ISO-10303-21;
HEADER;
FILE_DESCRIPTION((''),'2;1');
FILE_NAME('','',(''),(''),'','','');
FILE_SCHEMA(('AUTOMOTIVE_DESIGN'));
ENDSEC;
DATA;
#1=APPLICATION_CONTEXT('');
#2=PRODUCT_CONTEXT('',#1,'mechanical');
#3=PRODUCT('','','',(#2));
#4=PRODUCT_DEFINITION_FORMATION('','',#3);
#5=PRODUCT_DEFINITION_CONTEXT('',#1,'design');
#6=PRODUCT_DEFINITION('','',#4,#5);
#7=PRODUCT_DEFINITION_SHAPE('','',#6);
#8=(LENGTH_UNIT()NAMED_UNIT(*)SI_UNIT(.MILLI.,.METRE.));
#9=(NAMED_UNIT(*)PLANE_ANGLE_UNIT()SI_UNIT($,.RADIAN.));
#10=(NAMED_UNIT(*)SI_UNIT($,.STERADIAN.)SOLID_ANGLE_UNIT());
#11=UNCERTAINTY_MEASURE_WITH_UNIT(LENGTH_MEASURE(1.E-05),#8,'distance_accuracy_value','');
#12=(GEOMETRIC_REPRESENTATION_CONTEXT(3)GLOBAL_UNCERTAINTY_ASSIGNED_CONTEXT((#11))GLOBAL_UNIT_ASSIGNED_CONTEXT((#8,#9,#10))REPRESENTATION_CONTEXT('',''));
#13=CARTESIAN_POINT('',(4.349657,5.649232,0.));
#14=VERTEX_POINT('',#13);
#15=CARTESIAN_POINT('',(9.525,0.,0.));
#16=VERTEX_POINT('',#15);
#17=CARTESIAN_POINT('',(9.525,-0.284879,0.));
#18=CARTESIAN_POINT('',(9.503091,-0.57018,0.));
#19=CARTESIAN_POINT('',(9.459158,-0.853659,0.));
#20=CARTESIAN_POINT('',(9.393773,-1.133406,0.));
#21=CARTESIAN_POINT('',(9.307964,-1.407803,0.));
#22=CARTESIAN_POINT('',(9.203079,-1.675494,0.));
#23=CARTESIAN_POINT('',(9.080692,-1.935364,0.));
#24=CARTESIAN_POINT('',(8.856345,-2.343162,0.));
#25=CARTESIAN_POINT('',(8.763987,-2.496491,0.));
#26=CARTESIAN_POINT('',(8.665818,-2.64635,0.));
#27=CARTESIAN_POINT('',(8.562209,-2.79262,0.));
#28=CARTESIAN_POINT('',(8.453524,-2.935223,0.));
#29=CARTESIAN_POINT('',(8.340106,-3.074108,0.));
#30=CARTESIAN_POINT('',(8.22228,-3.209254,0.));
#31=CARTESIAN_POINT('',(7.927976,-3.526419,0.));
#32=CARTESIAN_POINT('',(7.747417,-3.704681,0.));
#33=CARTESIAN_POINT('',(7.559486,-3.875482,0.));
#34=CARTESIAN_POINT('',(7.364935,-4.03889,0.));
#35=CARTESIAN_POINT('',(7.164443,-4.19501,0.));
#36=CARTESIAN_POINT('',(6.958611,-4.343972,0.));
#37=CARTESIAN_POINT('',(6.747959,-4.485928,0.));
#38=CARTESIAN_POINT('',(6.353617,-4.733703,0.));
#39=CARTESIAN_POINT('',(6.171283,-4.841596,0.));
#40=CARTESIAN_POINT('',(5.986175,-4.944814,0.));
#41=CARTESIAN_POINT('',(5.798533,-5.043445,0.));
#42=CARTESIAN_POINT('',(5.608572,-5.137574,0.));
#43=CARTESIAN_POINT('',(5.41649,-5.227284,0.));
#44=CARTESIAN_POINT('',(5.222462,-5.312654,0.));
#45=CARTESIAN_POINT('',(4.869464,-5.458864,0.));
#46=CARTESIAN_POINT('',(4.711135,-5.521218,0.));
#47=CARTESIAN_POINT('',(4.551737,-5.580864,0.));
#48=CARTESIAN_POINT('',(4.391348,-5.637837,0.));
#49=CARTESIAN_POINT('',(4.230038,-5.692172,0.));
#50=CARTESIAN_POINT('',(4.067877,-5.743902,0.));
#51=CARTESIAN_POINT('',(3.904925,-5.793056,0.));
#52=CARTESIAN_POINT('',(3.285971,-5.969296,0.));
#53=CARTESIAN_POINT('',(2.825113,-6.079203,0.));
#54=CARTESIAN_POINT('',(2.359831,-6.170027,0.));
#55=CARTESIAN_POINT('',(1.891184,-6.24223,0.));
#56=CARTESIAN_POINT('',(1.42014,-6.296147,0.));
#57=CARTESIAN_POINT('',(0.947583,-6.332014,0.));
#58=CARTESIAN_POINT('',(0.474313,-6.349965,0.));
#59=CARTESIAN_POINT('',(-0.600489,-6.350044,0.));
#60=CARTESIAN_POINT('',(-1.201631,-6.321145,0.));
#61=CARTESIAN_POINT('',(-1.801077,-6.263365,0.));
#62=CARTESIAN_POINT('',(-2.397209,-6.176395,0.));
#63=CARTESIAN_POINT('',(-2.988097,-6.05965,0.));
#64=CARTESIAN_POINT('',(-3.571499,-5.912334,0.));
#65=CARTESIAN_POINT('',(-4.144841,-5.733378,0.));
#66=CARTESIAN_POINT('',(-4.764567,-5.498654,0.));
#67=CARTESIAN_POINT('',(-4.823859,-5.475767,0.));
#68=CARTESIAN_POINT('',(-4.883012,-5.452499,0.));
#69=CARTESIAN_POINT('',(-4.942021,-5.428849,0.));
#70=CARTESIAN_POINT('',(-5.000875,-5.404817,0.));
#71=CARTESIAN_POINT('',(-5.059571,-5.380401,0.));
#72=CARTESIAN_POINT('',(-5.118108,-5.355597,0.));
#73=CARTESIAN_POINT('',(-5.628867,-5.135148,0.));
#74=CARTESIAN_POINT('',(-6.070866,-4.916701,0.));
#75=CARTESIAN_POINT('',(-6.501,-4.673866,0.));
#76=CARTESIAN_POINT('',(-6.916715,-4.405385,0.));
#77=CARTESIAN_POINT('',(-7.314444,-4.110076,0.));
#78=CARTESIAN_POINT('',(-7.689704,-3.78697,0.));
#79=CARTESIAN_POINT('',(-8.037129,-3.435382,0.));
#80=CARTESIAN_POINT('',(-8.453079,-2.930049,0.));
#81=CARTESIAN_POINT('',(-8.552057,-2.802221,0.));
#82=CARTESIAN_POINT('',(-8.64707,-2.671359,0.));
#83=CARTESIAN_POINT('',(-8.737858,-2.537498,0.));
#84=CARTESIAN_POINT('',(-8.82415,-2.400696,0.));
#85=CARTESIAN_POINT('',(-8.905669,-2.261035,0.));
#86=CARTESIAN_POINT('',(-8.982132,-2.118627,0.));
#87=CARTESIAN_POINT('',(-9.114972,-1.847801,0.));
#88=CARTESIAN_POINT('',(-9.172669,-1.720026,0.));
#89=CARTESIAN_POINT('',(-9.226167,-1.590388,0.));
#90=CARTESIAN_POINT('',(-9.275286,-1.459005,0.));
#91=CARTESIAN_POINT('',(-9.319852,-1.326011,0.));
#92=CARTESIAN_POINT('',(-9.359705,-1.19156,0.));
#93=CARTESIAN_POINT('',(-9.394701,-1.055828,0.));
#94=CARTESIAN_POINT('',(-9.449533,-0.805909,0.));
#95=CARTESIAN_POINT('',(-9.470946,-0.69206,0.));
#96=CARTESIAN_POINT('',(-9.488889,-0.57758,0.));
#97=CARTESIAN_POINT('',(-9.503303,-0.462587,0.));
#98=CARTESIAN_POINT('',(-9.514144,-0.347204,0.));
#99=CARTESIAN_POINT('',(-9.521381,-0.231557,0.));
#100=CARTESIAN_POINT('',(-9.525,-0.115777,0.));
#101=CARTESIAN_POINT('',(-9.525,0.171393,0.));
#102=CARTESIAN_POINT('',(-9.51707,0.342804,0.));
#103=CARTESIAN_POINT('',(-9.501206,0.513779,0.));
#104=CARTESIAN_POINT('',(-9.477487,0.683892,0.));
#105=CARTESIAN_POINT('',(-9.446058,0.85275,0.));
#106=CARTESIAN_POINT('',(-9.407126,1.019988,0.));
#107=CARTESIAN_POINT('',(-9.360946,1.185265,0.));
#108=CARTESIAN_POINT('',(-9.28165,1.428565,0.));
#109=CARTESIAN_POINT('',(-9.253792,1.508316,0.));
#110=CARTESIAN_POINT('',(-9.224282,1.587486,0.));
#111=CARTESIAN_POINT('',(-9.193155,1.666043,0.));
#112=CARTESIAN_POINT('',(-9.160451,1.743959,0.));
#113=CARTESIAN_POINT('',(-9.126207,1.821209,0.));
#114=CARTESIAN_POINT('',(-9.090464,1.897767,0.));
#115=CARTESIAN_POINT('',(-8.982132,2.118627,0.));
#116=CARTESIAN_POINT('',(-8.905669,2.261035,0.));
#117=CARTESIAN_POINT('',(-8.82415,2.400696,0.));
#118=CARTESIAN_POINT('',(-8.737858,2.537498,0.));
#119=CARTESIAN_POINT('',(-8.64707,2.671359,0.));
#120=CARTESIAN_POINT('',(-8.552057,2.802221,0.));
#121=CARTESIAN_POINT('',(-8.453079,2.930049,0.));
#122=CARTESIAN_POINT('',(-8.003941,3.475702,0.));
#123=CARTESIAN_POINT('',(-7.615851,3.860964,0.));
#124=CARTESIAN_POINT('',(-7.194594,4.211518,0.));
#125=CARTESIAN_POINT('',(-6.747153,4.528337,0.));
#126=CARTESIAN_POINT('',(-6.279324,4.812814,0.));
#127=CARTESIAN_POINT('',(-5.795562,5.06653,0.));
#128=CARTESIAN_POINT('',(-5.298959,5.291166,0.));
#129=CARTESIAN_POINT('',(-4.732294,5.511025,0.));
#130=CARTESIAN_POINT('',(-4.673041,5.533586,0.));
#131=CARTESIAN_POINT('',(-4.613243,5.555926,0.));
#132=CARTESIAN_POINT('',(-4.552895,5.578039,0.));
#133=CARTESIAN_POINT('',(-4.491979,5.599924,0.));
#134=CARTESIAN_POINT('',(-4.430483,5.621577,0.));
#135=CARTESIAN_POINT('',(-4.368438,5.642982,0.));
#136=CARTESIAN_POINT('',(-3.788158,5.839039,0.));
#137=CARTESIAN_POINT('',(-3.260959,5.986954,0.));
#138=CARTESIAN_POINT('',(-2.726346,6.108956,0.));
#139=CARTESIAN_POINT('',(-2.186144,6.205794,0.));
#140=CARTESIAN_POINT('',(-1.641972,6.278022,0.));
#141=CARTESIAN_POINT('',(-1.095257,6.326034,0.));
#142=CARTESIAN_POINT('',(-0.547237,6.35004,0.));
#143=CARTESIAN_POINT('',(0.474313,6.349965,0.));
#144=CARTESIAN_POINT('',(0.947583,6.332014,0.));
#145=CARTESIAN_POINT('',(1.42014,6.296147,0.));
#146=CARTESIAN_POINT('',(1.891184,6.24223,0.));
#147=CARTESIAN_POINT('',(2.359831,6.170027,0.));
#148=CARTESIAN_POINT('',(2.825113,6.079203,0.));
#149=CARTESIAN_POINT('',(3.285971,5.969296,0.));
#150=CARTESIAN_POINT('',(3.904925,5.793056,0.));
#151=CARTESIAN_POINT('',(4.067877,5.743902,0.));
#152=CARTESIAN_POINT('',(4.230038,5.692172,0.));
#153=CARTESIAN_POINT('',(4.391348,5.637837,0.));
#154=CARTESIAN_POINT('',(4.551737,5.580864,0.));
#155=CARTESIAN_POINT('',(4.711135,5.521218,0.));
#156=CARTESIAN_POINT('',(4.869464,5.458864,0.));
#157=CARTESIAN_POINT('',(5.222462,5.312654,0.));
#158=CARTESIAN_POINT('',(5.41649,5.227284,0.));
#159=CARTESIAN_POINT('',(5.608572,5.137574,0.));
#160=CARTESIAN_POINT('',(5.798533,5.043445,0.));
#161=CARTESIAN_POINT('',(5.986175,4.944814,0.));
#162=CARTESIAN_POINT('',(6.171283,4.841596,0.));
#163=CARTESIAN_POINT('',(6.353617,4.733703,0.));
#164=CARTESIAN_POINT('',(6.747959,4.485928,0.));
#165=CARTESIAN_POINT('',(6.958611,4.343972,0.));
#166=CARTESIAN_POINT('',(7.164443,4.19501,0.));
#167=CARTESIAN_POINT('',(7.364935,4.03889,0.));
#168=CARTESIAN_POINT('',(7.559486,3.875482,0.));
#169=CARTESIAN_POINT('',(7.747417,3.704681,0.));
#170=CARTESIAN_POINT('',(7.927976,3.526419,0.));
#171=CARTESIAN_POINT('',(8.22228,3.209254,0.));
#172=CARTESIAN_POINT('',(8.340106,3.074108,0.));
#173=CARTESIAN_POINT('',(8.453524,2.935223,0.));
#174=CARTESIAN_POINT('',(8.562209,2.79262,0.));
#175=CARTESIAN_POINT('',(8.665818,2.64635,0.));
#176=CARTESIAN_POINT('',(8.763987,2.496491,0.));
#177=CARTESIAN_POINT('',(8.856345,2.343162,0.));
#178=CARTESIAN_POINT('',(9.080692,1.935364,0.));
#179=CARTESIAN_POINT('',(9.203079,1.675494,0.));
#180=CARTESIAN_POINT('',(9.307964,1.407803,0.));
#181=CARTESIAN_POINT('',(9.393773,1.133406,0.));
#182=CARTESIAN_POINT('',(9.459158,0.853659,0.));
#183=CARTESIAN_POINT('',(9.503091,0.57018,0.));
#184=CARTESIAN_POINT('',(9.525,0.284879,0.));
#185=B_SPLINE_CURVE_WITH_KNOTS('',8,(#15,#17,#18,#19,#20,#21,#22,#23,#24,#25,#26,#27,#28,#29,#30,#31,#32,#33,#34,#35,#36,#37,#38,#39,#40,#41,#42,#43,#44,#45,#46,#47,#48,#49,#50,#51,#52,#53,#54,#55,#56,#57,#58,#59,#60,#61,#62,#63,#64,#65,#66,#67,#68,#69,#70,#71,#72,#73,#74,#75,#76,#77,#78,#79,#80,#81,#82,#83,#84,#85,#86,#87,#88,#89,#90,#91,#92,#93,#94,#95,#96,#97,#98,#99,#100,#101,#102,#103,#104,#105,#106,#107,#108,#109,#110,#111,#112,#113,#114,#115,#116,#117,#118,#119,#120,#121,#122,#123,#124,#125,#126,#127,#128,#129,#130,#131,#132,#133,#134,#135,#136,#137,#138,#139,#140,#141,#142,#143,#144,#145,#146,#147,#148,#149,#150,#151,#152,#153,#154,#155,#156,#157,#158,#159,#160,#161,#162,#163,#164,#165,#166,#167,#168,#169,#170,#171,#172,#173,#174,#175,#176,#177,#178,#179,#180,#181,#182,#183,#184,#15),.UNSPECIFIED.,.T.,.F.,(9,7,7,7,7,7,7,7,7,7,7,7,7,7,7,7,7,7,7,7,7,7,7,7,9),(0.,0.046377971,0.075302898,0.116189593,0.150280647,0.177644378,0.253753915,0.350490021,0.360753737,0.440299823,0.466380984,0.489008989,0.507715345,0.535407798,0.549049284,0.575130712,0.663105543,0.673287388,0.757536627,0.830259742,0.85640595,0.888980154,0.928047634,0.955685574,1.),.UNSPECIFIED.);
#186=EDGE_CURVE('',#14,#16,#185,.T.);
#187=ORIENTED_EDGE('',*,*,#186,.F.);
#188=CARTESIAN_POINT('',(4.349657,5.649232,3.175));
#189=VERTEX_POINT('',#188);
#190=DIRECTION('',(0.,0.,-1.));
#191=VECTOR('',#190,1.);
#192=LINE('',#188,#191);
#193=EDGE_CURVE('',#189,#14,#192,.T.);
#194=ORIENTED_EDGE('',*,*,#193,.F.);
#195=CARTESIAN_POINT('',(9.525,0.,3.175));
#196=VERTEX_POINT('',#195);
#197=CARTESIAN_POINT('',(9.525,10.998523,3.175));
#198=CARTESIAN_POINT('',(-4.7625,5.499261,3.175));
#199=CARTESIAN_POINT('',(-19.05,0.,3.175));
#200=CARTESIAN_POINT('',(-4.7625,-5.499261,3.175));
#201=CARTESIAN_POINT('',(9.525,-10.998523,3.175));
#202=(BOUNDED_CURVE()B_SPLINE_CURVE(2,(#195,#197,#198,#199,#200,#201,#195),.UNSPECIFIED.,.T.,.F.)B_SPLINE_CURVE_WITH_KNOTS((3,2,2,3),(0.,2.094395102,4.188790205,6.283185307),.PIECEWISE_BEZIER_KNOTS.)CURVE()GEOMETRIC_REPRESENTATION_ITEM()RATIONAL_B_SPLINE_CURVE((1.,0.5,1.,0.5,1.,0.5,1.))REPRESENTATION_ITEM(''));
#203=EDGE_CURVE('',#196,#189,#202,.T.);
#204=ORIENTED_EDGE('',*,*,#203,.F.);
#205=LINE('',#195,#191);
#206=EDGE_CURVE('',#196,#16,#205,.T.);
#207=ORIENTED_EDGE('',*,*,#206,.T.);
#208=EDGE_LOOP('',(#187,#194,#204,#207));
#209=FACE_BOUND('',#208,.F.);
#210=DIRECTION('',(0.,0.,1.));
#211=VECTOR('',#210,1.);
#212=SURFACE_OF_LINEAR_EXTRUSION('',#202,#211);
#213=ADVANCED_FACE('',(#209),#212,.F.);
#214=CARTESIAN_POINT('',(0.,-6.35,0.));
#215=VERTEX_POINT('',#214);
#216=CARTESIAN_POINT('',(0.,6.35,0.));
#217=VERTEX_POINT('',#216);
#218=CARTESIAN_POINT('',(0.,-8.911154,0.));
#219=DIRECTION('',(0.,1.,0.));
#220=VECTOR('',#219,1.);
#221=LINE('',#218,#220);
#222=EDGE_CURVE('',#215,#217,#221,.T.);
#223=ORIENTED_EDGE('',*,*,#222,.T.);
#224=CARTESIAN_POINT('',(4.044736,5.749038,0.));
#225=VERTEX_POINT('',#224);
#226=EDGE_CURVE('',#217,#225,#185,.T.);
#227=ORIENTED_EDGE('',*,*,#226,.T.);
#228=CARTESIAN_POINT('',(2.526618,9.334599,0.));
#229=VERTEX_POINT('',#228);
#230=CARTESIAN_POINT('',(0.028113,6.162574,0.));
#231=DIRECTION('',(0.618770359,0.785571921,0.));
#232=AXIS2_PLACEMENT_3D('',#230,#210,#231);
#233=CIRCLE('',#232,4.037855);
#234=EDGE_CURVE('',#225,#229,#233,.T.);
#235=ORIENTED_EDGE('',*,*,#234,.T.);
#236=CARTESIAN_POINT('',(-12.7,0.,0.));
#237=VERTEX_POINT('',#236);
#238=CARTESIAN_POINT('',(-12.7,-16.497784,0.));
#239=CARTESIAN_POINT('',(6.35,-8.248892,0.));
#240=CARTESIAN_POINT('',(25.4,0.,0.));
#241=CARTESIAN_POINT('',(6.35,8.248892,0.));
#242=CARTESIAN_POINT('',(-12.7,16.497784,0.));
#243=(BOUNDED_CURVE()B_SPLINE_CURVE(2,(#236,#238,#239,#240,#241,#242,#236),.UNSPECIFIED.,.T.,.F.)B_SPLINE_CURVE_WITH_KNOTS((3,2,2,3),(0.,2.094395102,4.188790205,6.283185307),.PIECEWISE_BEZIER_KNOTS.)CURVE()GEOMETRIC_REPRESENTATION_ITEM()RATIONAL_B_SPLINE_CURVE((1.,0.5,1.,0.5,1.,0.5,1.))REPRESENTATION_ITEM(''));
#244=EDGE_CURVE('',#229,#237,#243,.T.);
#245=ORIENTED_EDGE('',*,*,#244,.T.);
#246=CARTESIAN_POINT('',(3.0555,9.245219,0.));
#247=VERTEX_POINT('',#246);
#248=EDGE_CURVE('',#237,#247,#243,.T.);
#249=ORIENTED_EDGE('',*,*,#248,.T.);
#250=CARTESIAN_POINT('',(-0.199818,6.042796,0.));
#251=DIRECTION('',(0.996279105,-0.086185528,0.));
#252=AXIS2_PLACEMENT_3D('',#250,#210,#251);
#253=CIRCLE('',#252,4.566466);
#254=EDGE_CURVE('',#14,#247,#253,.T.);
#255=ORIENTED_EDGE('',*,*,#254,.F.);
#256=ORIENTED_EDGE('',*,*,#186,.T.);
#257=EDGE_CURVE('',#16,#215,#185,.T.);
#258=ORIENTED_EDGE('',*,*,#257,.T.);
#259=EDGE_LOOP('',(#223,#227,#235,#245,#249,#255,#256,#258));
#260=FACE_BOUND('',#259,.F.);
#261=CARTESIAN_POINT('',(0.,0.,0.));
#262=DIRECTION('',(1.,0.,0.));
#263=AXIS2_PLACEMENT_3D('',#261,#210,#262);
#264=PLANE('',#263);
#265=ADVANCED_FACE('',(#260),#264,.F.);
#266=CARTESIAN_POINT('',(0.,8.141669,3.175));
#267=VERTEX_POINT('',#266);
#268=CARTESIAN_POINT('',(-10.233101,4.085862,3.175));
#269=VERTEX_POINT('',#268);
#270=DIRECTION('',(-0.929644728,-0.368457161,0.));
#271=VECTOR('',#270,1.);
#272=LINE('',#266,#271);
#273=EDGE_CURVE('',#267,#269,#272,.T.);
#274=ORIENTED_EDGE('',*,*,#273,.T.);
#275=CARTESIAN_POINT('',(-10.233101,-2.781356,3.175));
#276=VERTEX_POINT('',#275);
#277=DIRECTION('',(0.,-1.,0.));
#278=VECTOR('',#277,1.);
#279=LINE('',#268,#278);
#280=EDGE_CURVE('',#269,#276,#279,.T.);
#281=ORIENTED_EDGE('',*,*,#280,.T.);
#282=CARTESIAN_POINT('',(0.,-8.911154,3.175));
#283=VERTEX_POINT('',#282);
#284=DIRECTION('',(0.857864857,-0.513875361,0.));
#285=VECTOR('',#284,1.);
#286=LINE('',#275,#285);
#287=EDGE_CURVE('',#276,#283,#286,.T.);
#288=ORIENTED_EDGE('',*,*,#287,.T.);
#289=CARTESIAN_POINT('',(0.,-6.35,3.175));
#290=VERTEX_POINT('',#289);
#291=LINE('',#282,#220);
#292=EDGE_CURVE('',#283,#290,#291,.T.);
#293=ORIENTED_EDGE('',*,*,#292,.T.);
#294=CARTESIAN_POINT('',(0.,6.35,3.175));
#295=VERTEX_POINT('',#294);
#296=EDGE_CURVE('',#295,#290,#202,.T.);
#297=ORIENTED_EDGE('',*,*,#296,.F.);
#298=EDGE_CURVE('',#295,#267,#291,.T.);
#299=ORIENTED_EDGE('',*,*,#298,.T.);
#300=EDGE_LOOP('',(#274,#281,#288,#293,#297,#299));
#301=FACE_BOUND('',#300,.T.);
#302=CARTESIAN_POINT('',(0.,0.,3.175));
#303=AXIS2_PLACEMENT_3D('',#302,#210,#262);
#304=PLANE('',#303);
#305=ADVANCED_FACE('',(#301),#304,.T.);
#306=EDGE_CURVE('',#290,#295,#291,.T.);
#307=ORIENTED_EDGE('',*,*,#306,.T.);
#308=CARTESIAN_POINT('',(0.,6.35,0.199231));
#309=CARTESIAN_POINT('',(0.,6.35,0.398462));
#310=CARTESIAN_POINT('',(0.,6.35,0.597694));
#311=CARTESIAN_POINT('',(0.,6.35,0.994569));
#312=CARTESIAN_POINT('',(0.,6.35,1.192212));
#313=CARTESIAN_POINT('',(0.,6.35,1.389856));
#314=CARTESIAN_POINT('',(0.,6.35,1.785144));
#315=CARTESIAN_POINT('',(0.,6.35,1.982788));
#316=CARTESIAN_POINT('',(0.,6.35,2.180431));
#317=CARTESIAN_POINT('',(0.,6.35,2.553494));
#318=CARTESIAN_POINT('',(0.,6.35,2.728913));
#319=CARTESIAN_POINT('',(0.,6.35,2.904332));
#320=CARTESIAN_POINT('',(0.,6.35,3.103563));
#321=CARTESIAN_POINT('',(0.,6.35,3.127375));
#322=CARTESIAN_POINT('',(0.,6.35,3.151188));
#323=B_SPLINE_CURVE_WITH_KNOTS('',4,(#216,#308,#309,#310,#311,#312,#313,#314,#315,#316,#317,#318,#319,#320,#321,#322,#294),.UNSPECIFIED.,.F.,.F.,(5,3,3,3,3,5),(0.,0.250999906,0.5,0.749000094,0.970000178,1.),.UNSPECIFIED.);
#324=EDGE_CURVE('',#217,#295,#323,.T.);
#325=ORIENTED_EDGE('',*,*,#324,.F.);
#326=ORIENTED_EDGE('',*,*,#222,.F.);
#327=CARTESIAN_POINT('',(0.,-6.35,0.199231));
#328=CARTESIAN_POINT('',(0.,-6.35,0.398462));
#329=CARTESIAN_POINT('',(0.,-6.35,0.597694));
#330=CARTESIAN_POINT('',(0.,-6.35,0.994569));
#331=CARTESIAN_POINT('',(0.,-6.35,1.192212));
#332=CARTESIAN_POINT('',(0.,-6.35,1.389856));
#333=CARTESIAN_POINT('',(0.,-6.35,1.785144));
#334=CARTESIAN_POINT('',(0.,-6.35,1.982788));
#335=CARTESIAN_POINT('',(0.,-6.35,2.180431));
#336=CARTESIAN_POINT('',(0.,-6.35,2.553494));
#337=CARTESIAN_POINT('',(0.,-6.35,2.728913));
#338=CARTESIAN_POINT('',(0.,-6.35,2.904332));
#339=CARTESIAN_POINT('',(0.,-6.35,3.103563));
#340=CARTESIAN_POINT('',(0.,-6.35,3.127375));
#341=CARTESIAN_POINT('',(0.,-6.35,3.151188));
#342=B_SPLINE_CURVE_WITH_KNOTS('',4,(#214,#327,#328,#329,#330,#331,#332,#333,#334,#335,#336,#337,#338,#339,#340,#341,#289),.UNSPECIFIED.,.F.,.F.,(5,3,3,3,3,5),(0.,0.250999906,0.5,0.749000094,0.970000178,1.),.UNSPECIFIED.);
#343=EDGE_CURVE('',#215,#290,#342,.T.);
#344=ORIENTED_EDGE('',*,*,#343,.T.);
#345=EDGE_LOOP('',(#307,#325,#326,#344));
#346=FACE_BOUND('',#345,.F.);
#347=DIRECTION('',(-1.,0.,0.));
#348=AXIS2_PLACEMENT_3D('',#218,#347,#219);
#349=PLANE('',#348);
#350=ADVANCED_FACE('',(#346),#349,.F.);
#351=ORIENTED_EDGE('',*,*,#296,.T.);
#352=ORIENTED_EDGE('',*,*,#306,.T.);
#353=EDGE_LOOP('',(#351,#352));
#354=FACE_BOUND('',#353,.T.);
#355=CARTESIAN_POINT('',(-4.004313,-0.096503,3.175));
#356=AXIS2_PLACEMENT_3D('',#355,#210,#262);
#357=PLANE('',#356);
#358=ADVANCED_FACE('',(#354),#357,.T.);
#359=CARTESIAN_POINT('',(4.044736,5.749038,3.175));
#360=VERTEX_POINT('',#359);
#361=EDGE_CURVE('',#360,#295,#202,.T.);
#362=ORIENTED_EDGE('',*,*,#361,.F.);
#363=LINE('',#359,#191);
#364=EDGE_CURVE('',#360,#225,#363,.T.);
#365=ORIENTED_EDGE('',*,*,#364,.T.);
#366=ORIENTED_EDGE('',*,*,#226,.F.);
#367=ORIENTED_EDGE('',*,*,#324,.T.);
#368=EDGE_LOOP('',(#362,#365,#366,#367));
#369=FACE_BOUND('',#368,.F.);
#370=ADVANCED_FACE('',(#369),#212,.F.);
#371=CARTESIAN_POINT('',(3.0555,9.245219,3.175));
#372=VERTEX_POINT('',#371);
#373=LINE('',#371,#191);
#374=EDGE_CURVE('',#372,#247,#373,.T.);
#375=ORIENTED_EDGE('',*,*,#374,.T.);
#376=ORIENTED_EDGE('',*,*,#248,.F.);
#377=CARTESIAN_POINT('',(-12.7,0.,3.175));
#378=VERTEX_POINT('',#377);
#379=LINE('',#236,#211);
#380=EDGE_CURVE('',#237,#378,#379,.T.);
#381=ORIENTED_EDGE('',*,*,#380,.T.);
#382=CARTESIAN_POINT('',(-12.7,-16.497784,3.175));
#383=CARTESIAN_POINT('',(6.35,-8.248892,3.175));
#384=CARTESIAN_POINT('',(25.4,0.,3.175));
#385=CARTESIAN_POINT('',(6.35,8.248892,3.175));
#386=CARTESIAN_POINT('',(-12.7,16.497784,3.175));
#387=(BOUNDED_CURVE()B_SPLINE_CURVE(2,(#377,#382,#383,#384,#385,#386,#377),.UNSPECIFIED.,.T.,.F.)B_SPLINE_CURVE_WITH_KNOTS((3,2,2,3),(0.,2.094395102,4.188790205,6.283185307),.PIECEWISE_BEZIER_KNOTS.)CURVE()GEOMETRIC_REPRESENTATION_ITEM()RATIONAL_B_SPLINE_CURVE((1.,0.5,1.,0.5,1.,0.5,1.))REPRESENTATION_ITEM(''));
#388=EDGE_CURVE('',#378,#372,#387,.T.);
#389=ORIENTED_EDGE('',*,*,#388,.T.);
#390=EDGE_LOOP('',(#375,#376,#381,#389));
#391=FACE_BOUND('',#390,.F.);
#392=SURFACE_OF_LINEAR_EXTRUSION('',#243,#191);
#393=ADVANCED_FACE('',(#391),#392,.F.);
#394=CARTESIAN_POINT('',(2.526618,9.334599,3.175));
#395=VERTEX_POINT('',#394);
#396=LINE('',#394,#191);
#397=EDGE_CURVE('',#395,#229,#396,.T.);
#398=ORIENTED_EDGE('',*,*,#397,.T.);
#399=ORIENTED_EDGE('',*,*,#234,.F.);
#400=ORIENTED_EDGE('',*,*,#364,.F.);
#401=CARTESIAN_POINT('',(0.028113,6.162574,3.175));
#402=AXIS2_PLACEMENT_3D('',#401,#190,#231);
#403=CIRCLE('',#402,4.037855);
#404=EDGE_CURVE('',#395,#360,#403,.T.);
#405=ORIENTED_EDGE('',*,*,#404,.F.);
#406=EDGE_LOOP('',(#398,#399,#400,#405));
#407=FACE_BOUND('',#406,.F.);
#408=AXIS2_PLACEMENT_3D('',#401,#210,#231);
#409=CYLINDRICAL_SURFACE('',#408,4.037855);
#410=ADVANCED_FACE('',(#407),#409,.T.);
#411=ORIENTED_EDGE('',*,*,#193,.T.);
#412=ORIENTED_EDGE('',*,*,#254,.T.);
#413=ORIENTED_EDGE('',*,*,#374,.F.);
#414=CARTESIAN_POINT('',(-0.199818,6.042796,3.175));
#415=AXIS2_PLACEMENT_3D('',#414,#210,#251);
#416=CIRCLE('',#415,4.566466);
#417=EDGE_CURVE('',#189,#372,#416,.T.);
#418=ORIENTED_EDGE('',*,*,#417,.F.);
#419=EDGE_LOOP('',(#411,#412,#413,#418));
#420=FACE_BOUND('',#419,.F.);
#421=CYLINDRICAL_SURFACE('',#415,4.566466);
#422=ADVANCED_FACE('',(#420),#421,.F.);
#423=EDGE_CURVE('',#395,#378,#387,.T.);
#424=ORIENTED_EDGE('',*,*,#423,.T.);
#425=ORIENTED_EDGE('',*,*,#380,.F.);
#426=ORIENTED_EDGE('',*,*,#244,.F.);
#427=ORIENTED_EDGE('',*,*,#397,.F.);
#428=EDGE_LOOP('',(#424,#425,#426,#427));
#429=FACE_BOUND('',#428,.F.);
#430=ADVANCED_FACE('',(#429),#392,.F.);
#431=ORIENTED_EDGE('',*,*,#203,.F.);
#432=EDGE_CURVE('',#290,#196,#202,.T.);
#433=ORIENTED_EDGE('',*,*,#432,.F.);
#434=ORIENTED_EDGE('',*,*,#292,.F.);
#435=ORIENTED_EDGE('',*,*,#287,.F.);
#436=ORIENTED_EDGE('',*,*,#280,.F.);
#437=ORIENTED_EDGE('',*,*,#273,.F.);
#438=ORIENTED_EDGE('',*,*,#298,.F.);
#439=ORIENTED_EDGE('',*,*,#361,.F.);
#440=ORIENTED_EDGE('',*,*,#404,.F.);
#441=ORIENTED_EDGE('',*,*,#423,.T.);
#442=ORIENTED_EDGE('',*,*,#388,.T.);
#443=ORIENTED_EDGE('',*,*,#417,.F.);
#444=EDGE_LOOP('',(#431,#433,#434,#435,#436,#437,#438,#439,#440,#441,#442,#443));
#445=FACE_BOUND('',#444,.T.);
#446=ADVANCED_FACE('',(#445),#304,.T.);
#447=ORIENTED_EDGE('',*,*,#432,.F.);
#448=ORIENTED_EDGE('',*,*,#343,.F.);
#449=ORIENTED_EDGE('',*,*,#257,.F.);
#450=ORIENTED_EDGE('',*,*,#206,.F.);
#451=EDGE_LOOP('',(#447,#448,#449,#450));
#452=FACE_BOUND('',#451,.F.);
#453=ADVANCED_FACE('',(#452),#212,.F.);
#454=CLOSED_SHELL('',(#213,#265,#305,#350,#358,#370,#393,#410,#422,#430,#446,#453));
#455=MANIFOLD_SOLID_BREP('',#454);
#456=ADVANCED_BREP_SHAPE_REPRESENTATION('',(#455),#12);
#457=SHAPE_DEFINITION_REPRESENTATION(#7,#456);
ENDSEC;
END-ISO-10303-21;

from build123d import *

# Parameters (mm, degrees)
F1_DEPTH = 3.175
F3_DEPTH = 25.4
F5_DEPTH = 3.175
F7_DEPTH = 25.4


with BuildPart() as f1:
    # F0 (on Top) → F1 (new body)
    with BuildSketch(Plane.XY):
        with BuildLine():
            add(Edge.make_bspline(
                [(-12.7, 0), (-12.7, -16.4977839421), (6.35, -8.248891971), (25.4, 0), (6.35, 8.248891971), (-12.7, 16.4977839421), (-12.7, 0)],
                knots=[0, 0, 0, 2.0943951024, 2.0943951024, 4.1887902048, 4.1887902048, 6.2831853072, 6.2831853072, 6.2831853072], degree=2, weights=[1, 0.5, 1, 0.5, 1, 0.5, 1]))
        make_face()
    extrude(amount=F1_DEPTH)

    # F2 (on face) → F3 (cut)
    with BuildSketch(Plane.XY.offset(3.175)):
        with BuildLine():
            add(Edge.make_bspline(
                [(9.525, 0), (9.525, 10.9985226281), (-4.7625, 5.499261314), (-19.05, 0), (-4.7625, -5.499261314), (9.525, -10.9985226281), (9.525, 0)],
                knots=[0, 0, 0, 2.0943951024, 2.0943951024, 4.1887902048, 4.1887902048, 6.2831853072, 6.2831853072, 6.2831853072], degree=2, weights=[1, 0.5, 1, 0.5, 1, 0.5, 1]))
        make_face()
    extrude(amount=-F3_DEPTH, mode=Mode.SUBTRACT)

    # F4 (on Top) → F5 (join)
    with BuildSketch(Plane.XY):
        Polygon((0, -8.9111542329), (0, 8.1416685134), (-10.233101435, 4.0858616121), (-10.233101435, -2.7813557535), align=None)
    extrude(amount=F5_DEPTH)

    # F6 (on face) → F7 (cut)
    with BuildSketch(Plane.XY.offset(3.175)):
        with BuildLine():
            ThreePointArc((2.5266178398, 9.334599016), (3.7464169195, 7.7368947977), (4.0447358353, 5.7490380653))
            ThreePointArc((4.0447358353, 5.7490380653), (4.1637538527, 5.5969636499), (4.3496567574, 5.6492324392))
            ThreePointArc((4.3496567574, 5.6492324392), (4.0968642454, 7.5891250366), (3.0555001293, 9.2452192735))
            ThreePointArc((3.0555001293, 9.2452192735), (2.8151884248, 9.4326890771), (2.5266178398, 9.334599016))
        make_face()
    extrude(amount=-F7_DEPTH, mode=Mode.SUBTRACT)


solid = f1.part
